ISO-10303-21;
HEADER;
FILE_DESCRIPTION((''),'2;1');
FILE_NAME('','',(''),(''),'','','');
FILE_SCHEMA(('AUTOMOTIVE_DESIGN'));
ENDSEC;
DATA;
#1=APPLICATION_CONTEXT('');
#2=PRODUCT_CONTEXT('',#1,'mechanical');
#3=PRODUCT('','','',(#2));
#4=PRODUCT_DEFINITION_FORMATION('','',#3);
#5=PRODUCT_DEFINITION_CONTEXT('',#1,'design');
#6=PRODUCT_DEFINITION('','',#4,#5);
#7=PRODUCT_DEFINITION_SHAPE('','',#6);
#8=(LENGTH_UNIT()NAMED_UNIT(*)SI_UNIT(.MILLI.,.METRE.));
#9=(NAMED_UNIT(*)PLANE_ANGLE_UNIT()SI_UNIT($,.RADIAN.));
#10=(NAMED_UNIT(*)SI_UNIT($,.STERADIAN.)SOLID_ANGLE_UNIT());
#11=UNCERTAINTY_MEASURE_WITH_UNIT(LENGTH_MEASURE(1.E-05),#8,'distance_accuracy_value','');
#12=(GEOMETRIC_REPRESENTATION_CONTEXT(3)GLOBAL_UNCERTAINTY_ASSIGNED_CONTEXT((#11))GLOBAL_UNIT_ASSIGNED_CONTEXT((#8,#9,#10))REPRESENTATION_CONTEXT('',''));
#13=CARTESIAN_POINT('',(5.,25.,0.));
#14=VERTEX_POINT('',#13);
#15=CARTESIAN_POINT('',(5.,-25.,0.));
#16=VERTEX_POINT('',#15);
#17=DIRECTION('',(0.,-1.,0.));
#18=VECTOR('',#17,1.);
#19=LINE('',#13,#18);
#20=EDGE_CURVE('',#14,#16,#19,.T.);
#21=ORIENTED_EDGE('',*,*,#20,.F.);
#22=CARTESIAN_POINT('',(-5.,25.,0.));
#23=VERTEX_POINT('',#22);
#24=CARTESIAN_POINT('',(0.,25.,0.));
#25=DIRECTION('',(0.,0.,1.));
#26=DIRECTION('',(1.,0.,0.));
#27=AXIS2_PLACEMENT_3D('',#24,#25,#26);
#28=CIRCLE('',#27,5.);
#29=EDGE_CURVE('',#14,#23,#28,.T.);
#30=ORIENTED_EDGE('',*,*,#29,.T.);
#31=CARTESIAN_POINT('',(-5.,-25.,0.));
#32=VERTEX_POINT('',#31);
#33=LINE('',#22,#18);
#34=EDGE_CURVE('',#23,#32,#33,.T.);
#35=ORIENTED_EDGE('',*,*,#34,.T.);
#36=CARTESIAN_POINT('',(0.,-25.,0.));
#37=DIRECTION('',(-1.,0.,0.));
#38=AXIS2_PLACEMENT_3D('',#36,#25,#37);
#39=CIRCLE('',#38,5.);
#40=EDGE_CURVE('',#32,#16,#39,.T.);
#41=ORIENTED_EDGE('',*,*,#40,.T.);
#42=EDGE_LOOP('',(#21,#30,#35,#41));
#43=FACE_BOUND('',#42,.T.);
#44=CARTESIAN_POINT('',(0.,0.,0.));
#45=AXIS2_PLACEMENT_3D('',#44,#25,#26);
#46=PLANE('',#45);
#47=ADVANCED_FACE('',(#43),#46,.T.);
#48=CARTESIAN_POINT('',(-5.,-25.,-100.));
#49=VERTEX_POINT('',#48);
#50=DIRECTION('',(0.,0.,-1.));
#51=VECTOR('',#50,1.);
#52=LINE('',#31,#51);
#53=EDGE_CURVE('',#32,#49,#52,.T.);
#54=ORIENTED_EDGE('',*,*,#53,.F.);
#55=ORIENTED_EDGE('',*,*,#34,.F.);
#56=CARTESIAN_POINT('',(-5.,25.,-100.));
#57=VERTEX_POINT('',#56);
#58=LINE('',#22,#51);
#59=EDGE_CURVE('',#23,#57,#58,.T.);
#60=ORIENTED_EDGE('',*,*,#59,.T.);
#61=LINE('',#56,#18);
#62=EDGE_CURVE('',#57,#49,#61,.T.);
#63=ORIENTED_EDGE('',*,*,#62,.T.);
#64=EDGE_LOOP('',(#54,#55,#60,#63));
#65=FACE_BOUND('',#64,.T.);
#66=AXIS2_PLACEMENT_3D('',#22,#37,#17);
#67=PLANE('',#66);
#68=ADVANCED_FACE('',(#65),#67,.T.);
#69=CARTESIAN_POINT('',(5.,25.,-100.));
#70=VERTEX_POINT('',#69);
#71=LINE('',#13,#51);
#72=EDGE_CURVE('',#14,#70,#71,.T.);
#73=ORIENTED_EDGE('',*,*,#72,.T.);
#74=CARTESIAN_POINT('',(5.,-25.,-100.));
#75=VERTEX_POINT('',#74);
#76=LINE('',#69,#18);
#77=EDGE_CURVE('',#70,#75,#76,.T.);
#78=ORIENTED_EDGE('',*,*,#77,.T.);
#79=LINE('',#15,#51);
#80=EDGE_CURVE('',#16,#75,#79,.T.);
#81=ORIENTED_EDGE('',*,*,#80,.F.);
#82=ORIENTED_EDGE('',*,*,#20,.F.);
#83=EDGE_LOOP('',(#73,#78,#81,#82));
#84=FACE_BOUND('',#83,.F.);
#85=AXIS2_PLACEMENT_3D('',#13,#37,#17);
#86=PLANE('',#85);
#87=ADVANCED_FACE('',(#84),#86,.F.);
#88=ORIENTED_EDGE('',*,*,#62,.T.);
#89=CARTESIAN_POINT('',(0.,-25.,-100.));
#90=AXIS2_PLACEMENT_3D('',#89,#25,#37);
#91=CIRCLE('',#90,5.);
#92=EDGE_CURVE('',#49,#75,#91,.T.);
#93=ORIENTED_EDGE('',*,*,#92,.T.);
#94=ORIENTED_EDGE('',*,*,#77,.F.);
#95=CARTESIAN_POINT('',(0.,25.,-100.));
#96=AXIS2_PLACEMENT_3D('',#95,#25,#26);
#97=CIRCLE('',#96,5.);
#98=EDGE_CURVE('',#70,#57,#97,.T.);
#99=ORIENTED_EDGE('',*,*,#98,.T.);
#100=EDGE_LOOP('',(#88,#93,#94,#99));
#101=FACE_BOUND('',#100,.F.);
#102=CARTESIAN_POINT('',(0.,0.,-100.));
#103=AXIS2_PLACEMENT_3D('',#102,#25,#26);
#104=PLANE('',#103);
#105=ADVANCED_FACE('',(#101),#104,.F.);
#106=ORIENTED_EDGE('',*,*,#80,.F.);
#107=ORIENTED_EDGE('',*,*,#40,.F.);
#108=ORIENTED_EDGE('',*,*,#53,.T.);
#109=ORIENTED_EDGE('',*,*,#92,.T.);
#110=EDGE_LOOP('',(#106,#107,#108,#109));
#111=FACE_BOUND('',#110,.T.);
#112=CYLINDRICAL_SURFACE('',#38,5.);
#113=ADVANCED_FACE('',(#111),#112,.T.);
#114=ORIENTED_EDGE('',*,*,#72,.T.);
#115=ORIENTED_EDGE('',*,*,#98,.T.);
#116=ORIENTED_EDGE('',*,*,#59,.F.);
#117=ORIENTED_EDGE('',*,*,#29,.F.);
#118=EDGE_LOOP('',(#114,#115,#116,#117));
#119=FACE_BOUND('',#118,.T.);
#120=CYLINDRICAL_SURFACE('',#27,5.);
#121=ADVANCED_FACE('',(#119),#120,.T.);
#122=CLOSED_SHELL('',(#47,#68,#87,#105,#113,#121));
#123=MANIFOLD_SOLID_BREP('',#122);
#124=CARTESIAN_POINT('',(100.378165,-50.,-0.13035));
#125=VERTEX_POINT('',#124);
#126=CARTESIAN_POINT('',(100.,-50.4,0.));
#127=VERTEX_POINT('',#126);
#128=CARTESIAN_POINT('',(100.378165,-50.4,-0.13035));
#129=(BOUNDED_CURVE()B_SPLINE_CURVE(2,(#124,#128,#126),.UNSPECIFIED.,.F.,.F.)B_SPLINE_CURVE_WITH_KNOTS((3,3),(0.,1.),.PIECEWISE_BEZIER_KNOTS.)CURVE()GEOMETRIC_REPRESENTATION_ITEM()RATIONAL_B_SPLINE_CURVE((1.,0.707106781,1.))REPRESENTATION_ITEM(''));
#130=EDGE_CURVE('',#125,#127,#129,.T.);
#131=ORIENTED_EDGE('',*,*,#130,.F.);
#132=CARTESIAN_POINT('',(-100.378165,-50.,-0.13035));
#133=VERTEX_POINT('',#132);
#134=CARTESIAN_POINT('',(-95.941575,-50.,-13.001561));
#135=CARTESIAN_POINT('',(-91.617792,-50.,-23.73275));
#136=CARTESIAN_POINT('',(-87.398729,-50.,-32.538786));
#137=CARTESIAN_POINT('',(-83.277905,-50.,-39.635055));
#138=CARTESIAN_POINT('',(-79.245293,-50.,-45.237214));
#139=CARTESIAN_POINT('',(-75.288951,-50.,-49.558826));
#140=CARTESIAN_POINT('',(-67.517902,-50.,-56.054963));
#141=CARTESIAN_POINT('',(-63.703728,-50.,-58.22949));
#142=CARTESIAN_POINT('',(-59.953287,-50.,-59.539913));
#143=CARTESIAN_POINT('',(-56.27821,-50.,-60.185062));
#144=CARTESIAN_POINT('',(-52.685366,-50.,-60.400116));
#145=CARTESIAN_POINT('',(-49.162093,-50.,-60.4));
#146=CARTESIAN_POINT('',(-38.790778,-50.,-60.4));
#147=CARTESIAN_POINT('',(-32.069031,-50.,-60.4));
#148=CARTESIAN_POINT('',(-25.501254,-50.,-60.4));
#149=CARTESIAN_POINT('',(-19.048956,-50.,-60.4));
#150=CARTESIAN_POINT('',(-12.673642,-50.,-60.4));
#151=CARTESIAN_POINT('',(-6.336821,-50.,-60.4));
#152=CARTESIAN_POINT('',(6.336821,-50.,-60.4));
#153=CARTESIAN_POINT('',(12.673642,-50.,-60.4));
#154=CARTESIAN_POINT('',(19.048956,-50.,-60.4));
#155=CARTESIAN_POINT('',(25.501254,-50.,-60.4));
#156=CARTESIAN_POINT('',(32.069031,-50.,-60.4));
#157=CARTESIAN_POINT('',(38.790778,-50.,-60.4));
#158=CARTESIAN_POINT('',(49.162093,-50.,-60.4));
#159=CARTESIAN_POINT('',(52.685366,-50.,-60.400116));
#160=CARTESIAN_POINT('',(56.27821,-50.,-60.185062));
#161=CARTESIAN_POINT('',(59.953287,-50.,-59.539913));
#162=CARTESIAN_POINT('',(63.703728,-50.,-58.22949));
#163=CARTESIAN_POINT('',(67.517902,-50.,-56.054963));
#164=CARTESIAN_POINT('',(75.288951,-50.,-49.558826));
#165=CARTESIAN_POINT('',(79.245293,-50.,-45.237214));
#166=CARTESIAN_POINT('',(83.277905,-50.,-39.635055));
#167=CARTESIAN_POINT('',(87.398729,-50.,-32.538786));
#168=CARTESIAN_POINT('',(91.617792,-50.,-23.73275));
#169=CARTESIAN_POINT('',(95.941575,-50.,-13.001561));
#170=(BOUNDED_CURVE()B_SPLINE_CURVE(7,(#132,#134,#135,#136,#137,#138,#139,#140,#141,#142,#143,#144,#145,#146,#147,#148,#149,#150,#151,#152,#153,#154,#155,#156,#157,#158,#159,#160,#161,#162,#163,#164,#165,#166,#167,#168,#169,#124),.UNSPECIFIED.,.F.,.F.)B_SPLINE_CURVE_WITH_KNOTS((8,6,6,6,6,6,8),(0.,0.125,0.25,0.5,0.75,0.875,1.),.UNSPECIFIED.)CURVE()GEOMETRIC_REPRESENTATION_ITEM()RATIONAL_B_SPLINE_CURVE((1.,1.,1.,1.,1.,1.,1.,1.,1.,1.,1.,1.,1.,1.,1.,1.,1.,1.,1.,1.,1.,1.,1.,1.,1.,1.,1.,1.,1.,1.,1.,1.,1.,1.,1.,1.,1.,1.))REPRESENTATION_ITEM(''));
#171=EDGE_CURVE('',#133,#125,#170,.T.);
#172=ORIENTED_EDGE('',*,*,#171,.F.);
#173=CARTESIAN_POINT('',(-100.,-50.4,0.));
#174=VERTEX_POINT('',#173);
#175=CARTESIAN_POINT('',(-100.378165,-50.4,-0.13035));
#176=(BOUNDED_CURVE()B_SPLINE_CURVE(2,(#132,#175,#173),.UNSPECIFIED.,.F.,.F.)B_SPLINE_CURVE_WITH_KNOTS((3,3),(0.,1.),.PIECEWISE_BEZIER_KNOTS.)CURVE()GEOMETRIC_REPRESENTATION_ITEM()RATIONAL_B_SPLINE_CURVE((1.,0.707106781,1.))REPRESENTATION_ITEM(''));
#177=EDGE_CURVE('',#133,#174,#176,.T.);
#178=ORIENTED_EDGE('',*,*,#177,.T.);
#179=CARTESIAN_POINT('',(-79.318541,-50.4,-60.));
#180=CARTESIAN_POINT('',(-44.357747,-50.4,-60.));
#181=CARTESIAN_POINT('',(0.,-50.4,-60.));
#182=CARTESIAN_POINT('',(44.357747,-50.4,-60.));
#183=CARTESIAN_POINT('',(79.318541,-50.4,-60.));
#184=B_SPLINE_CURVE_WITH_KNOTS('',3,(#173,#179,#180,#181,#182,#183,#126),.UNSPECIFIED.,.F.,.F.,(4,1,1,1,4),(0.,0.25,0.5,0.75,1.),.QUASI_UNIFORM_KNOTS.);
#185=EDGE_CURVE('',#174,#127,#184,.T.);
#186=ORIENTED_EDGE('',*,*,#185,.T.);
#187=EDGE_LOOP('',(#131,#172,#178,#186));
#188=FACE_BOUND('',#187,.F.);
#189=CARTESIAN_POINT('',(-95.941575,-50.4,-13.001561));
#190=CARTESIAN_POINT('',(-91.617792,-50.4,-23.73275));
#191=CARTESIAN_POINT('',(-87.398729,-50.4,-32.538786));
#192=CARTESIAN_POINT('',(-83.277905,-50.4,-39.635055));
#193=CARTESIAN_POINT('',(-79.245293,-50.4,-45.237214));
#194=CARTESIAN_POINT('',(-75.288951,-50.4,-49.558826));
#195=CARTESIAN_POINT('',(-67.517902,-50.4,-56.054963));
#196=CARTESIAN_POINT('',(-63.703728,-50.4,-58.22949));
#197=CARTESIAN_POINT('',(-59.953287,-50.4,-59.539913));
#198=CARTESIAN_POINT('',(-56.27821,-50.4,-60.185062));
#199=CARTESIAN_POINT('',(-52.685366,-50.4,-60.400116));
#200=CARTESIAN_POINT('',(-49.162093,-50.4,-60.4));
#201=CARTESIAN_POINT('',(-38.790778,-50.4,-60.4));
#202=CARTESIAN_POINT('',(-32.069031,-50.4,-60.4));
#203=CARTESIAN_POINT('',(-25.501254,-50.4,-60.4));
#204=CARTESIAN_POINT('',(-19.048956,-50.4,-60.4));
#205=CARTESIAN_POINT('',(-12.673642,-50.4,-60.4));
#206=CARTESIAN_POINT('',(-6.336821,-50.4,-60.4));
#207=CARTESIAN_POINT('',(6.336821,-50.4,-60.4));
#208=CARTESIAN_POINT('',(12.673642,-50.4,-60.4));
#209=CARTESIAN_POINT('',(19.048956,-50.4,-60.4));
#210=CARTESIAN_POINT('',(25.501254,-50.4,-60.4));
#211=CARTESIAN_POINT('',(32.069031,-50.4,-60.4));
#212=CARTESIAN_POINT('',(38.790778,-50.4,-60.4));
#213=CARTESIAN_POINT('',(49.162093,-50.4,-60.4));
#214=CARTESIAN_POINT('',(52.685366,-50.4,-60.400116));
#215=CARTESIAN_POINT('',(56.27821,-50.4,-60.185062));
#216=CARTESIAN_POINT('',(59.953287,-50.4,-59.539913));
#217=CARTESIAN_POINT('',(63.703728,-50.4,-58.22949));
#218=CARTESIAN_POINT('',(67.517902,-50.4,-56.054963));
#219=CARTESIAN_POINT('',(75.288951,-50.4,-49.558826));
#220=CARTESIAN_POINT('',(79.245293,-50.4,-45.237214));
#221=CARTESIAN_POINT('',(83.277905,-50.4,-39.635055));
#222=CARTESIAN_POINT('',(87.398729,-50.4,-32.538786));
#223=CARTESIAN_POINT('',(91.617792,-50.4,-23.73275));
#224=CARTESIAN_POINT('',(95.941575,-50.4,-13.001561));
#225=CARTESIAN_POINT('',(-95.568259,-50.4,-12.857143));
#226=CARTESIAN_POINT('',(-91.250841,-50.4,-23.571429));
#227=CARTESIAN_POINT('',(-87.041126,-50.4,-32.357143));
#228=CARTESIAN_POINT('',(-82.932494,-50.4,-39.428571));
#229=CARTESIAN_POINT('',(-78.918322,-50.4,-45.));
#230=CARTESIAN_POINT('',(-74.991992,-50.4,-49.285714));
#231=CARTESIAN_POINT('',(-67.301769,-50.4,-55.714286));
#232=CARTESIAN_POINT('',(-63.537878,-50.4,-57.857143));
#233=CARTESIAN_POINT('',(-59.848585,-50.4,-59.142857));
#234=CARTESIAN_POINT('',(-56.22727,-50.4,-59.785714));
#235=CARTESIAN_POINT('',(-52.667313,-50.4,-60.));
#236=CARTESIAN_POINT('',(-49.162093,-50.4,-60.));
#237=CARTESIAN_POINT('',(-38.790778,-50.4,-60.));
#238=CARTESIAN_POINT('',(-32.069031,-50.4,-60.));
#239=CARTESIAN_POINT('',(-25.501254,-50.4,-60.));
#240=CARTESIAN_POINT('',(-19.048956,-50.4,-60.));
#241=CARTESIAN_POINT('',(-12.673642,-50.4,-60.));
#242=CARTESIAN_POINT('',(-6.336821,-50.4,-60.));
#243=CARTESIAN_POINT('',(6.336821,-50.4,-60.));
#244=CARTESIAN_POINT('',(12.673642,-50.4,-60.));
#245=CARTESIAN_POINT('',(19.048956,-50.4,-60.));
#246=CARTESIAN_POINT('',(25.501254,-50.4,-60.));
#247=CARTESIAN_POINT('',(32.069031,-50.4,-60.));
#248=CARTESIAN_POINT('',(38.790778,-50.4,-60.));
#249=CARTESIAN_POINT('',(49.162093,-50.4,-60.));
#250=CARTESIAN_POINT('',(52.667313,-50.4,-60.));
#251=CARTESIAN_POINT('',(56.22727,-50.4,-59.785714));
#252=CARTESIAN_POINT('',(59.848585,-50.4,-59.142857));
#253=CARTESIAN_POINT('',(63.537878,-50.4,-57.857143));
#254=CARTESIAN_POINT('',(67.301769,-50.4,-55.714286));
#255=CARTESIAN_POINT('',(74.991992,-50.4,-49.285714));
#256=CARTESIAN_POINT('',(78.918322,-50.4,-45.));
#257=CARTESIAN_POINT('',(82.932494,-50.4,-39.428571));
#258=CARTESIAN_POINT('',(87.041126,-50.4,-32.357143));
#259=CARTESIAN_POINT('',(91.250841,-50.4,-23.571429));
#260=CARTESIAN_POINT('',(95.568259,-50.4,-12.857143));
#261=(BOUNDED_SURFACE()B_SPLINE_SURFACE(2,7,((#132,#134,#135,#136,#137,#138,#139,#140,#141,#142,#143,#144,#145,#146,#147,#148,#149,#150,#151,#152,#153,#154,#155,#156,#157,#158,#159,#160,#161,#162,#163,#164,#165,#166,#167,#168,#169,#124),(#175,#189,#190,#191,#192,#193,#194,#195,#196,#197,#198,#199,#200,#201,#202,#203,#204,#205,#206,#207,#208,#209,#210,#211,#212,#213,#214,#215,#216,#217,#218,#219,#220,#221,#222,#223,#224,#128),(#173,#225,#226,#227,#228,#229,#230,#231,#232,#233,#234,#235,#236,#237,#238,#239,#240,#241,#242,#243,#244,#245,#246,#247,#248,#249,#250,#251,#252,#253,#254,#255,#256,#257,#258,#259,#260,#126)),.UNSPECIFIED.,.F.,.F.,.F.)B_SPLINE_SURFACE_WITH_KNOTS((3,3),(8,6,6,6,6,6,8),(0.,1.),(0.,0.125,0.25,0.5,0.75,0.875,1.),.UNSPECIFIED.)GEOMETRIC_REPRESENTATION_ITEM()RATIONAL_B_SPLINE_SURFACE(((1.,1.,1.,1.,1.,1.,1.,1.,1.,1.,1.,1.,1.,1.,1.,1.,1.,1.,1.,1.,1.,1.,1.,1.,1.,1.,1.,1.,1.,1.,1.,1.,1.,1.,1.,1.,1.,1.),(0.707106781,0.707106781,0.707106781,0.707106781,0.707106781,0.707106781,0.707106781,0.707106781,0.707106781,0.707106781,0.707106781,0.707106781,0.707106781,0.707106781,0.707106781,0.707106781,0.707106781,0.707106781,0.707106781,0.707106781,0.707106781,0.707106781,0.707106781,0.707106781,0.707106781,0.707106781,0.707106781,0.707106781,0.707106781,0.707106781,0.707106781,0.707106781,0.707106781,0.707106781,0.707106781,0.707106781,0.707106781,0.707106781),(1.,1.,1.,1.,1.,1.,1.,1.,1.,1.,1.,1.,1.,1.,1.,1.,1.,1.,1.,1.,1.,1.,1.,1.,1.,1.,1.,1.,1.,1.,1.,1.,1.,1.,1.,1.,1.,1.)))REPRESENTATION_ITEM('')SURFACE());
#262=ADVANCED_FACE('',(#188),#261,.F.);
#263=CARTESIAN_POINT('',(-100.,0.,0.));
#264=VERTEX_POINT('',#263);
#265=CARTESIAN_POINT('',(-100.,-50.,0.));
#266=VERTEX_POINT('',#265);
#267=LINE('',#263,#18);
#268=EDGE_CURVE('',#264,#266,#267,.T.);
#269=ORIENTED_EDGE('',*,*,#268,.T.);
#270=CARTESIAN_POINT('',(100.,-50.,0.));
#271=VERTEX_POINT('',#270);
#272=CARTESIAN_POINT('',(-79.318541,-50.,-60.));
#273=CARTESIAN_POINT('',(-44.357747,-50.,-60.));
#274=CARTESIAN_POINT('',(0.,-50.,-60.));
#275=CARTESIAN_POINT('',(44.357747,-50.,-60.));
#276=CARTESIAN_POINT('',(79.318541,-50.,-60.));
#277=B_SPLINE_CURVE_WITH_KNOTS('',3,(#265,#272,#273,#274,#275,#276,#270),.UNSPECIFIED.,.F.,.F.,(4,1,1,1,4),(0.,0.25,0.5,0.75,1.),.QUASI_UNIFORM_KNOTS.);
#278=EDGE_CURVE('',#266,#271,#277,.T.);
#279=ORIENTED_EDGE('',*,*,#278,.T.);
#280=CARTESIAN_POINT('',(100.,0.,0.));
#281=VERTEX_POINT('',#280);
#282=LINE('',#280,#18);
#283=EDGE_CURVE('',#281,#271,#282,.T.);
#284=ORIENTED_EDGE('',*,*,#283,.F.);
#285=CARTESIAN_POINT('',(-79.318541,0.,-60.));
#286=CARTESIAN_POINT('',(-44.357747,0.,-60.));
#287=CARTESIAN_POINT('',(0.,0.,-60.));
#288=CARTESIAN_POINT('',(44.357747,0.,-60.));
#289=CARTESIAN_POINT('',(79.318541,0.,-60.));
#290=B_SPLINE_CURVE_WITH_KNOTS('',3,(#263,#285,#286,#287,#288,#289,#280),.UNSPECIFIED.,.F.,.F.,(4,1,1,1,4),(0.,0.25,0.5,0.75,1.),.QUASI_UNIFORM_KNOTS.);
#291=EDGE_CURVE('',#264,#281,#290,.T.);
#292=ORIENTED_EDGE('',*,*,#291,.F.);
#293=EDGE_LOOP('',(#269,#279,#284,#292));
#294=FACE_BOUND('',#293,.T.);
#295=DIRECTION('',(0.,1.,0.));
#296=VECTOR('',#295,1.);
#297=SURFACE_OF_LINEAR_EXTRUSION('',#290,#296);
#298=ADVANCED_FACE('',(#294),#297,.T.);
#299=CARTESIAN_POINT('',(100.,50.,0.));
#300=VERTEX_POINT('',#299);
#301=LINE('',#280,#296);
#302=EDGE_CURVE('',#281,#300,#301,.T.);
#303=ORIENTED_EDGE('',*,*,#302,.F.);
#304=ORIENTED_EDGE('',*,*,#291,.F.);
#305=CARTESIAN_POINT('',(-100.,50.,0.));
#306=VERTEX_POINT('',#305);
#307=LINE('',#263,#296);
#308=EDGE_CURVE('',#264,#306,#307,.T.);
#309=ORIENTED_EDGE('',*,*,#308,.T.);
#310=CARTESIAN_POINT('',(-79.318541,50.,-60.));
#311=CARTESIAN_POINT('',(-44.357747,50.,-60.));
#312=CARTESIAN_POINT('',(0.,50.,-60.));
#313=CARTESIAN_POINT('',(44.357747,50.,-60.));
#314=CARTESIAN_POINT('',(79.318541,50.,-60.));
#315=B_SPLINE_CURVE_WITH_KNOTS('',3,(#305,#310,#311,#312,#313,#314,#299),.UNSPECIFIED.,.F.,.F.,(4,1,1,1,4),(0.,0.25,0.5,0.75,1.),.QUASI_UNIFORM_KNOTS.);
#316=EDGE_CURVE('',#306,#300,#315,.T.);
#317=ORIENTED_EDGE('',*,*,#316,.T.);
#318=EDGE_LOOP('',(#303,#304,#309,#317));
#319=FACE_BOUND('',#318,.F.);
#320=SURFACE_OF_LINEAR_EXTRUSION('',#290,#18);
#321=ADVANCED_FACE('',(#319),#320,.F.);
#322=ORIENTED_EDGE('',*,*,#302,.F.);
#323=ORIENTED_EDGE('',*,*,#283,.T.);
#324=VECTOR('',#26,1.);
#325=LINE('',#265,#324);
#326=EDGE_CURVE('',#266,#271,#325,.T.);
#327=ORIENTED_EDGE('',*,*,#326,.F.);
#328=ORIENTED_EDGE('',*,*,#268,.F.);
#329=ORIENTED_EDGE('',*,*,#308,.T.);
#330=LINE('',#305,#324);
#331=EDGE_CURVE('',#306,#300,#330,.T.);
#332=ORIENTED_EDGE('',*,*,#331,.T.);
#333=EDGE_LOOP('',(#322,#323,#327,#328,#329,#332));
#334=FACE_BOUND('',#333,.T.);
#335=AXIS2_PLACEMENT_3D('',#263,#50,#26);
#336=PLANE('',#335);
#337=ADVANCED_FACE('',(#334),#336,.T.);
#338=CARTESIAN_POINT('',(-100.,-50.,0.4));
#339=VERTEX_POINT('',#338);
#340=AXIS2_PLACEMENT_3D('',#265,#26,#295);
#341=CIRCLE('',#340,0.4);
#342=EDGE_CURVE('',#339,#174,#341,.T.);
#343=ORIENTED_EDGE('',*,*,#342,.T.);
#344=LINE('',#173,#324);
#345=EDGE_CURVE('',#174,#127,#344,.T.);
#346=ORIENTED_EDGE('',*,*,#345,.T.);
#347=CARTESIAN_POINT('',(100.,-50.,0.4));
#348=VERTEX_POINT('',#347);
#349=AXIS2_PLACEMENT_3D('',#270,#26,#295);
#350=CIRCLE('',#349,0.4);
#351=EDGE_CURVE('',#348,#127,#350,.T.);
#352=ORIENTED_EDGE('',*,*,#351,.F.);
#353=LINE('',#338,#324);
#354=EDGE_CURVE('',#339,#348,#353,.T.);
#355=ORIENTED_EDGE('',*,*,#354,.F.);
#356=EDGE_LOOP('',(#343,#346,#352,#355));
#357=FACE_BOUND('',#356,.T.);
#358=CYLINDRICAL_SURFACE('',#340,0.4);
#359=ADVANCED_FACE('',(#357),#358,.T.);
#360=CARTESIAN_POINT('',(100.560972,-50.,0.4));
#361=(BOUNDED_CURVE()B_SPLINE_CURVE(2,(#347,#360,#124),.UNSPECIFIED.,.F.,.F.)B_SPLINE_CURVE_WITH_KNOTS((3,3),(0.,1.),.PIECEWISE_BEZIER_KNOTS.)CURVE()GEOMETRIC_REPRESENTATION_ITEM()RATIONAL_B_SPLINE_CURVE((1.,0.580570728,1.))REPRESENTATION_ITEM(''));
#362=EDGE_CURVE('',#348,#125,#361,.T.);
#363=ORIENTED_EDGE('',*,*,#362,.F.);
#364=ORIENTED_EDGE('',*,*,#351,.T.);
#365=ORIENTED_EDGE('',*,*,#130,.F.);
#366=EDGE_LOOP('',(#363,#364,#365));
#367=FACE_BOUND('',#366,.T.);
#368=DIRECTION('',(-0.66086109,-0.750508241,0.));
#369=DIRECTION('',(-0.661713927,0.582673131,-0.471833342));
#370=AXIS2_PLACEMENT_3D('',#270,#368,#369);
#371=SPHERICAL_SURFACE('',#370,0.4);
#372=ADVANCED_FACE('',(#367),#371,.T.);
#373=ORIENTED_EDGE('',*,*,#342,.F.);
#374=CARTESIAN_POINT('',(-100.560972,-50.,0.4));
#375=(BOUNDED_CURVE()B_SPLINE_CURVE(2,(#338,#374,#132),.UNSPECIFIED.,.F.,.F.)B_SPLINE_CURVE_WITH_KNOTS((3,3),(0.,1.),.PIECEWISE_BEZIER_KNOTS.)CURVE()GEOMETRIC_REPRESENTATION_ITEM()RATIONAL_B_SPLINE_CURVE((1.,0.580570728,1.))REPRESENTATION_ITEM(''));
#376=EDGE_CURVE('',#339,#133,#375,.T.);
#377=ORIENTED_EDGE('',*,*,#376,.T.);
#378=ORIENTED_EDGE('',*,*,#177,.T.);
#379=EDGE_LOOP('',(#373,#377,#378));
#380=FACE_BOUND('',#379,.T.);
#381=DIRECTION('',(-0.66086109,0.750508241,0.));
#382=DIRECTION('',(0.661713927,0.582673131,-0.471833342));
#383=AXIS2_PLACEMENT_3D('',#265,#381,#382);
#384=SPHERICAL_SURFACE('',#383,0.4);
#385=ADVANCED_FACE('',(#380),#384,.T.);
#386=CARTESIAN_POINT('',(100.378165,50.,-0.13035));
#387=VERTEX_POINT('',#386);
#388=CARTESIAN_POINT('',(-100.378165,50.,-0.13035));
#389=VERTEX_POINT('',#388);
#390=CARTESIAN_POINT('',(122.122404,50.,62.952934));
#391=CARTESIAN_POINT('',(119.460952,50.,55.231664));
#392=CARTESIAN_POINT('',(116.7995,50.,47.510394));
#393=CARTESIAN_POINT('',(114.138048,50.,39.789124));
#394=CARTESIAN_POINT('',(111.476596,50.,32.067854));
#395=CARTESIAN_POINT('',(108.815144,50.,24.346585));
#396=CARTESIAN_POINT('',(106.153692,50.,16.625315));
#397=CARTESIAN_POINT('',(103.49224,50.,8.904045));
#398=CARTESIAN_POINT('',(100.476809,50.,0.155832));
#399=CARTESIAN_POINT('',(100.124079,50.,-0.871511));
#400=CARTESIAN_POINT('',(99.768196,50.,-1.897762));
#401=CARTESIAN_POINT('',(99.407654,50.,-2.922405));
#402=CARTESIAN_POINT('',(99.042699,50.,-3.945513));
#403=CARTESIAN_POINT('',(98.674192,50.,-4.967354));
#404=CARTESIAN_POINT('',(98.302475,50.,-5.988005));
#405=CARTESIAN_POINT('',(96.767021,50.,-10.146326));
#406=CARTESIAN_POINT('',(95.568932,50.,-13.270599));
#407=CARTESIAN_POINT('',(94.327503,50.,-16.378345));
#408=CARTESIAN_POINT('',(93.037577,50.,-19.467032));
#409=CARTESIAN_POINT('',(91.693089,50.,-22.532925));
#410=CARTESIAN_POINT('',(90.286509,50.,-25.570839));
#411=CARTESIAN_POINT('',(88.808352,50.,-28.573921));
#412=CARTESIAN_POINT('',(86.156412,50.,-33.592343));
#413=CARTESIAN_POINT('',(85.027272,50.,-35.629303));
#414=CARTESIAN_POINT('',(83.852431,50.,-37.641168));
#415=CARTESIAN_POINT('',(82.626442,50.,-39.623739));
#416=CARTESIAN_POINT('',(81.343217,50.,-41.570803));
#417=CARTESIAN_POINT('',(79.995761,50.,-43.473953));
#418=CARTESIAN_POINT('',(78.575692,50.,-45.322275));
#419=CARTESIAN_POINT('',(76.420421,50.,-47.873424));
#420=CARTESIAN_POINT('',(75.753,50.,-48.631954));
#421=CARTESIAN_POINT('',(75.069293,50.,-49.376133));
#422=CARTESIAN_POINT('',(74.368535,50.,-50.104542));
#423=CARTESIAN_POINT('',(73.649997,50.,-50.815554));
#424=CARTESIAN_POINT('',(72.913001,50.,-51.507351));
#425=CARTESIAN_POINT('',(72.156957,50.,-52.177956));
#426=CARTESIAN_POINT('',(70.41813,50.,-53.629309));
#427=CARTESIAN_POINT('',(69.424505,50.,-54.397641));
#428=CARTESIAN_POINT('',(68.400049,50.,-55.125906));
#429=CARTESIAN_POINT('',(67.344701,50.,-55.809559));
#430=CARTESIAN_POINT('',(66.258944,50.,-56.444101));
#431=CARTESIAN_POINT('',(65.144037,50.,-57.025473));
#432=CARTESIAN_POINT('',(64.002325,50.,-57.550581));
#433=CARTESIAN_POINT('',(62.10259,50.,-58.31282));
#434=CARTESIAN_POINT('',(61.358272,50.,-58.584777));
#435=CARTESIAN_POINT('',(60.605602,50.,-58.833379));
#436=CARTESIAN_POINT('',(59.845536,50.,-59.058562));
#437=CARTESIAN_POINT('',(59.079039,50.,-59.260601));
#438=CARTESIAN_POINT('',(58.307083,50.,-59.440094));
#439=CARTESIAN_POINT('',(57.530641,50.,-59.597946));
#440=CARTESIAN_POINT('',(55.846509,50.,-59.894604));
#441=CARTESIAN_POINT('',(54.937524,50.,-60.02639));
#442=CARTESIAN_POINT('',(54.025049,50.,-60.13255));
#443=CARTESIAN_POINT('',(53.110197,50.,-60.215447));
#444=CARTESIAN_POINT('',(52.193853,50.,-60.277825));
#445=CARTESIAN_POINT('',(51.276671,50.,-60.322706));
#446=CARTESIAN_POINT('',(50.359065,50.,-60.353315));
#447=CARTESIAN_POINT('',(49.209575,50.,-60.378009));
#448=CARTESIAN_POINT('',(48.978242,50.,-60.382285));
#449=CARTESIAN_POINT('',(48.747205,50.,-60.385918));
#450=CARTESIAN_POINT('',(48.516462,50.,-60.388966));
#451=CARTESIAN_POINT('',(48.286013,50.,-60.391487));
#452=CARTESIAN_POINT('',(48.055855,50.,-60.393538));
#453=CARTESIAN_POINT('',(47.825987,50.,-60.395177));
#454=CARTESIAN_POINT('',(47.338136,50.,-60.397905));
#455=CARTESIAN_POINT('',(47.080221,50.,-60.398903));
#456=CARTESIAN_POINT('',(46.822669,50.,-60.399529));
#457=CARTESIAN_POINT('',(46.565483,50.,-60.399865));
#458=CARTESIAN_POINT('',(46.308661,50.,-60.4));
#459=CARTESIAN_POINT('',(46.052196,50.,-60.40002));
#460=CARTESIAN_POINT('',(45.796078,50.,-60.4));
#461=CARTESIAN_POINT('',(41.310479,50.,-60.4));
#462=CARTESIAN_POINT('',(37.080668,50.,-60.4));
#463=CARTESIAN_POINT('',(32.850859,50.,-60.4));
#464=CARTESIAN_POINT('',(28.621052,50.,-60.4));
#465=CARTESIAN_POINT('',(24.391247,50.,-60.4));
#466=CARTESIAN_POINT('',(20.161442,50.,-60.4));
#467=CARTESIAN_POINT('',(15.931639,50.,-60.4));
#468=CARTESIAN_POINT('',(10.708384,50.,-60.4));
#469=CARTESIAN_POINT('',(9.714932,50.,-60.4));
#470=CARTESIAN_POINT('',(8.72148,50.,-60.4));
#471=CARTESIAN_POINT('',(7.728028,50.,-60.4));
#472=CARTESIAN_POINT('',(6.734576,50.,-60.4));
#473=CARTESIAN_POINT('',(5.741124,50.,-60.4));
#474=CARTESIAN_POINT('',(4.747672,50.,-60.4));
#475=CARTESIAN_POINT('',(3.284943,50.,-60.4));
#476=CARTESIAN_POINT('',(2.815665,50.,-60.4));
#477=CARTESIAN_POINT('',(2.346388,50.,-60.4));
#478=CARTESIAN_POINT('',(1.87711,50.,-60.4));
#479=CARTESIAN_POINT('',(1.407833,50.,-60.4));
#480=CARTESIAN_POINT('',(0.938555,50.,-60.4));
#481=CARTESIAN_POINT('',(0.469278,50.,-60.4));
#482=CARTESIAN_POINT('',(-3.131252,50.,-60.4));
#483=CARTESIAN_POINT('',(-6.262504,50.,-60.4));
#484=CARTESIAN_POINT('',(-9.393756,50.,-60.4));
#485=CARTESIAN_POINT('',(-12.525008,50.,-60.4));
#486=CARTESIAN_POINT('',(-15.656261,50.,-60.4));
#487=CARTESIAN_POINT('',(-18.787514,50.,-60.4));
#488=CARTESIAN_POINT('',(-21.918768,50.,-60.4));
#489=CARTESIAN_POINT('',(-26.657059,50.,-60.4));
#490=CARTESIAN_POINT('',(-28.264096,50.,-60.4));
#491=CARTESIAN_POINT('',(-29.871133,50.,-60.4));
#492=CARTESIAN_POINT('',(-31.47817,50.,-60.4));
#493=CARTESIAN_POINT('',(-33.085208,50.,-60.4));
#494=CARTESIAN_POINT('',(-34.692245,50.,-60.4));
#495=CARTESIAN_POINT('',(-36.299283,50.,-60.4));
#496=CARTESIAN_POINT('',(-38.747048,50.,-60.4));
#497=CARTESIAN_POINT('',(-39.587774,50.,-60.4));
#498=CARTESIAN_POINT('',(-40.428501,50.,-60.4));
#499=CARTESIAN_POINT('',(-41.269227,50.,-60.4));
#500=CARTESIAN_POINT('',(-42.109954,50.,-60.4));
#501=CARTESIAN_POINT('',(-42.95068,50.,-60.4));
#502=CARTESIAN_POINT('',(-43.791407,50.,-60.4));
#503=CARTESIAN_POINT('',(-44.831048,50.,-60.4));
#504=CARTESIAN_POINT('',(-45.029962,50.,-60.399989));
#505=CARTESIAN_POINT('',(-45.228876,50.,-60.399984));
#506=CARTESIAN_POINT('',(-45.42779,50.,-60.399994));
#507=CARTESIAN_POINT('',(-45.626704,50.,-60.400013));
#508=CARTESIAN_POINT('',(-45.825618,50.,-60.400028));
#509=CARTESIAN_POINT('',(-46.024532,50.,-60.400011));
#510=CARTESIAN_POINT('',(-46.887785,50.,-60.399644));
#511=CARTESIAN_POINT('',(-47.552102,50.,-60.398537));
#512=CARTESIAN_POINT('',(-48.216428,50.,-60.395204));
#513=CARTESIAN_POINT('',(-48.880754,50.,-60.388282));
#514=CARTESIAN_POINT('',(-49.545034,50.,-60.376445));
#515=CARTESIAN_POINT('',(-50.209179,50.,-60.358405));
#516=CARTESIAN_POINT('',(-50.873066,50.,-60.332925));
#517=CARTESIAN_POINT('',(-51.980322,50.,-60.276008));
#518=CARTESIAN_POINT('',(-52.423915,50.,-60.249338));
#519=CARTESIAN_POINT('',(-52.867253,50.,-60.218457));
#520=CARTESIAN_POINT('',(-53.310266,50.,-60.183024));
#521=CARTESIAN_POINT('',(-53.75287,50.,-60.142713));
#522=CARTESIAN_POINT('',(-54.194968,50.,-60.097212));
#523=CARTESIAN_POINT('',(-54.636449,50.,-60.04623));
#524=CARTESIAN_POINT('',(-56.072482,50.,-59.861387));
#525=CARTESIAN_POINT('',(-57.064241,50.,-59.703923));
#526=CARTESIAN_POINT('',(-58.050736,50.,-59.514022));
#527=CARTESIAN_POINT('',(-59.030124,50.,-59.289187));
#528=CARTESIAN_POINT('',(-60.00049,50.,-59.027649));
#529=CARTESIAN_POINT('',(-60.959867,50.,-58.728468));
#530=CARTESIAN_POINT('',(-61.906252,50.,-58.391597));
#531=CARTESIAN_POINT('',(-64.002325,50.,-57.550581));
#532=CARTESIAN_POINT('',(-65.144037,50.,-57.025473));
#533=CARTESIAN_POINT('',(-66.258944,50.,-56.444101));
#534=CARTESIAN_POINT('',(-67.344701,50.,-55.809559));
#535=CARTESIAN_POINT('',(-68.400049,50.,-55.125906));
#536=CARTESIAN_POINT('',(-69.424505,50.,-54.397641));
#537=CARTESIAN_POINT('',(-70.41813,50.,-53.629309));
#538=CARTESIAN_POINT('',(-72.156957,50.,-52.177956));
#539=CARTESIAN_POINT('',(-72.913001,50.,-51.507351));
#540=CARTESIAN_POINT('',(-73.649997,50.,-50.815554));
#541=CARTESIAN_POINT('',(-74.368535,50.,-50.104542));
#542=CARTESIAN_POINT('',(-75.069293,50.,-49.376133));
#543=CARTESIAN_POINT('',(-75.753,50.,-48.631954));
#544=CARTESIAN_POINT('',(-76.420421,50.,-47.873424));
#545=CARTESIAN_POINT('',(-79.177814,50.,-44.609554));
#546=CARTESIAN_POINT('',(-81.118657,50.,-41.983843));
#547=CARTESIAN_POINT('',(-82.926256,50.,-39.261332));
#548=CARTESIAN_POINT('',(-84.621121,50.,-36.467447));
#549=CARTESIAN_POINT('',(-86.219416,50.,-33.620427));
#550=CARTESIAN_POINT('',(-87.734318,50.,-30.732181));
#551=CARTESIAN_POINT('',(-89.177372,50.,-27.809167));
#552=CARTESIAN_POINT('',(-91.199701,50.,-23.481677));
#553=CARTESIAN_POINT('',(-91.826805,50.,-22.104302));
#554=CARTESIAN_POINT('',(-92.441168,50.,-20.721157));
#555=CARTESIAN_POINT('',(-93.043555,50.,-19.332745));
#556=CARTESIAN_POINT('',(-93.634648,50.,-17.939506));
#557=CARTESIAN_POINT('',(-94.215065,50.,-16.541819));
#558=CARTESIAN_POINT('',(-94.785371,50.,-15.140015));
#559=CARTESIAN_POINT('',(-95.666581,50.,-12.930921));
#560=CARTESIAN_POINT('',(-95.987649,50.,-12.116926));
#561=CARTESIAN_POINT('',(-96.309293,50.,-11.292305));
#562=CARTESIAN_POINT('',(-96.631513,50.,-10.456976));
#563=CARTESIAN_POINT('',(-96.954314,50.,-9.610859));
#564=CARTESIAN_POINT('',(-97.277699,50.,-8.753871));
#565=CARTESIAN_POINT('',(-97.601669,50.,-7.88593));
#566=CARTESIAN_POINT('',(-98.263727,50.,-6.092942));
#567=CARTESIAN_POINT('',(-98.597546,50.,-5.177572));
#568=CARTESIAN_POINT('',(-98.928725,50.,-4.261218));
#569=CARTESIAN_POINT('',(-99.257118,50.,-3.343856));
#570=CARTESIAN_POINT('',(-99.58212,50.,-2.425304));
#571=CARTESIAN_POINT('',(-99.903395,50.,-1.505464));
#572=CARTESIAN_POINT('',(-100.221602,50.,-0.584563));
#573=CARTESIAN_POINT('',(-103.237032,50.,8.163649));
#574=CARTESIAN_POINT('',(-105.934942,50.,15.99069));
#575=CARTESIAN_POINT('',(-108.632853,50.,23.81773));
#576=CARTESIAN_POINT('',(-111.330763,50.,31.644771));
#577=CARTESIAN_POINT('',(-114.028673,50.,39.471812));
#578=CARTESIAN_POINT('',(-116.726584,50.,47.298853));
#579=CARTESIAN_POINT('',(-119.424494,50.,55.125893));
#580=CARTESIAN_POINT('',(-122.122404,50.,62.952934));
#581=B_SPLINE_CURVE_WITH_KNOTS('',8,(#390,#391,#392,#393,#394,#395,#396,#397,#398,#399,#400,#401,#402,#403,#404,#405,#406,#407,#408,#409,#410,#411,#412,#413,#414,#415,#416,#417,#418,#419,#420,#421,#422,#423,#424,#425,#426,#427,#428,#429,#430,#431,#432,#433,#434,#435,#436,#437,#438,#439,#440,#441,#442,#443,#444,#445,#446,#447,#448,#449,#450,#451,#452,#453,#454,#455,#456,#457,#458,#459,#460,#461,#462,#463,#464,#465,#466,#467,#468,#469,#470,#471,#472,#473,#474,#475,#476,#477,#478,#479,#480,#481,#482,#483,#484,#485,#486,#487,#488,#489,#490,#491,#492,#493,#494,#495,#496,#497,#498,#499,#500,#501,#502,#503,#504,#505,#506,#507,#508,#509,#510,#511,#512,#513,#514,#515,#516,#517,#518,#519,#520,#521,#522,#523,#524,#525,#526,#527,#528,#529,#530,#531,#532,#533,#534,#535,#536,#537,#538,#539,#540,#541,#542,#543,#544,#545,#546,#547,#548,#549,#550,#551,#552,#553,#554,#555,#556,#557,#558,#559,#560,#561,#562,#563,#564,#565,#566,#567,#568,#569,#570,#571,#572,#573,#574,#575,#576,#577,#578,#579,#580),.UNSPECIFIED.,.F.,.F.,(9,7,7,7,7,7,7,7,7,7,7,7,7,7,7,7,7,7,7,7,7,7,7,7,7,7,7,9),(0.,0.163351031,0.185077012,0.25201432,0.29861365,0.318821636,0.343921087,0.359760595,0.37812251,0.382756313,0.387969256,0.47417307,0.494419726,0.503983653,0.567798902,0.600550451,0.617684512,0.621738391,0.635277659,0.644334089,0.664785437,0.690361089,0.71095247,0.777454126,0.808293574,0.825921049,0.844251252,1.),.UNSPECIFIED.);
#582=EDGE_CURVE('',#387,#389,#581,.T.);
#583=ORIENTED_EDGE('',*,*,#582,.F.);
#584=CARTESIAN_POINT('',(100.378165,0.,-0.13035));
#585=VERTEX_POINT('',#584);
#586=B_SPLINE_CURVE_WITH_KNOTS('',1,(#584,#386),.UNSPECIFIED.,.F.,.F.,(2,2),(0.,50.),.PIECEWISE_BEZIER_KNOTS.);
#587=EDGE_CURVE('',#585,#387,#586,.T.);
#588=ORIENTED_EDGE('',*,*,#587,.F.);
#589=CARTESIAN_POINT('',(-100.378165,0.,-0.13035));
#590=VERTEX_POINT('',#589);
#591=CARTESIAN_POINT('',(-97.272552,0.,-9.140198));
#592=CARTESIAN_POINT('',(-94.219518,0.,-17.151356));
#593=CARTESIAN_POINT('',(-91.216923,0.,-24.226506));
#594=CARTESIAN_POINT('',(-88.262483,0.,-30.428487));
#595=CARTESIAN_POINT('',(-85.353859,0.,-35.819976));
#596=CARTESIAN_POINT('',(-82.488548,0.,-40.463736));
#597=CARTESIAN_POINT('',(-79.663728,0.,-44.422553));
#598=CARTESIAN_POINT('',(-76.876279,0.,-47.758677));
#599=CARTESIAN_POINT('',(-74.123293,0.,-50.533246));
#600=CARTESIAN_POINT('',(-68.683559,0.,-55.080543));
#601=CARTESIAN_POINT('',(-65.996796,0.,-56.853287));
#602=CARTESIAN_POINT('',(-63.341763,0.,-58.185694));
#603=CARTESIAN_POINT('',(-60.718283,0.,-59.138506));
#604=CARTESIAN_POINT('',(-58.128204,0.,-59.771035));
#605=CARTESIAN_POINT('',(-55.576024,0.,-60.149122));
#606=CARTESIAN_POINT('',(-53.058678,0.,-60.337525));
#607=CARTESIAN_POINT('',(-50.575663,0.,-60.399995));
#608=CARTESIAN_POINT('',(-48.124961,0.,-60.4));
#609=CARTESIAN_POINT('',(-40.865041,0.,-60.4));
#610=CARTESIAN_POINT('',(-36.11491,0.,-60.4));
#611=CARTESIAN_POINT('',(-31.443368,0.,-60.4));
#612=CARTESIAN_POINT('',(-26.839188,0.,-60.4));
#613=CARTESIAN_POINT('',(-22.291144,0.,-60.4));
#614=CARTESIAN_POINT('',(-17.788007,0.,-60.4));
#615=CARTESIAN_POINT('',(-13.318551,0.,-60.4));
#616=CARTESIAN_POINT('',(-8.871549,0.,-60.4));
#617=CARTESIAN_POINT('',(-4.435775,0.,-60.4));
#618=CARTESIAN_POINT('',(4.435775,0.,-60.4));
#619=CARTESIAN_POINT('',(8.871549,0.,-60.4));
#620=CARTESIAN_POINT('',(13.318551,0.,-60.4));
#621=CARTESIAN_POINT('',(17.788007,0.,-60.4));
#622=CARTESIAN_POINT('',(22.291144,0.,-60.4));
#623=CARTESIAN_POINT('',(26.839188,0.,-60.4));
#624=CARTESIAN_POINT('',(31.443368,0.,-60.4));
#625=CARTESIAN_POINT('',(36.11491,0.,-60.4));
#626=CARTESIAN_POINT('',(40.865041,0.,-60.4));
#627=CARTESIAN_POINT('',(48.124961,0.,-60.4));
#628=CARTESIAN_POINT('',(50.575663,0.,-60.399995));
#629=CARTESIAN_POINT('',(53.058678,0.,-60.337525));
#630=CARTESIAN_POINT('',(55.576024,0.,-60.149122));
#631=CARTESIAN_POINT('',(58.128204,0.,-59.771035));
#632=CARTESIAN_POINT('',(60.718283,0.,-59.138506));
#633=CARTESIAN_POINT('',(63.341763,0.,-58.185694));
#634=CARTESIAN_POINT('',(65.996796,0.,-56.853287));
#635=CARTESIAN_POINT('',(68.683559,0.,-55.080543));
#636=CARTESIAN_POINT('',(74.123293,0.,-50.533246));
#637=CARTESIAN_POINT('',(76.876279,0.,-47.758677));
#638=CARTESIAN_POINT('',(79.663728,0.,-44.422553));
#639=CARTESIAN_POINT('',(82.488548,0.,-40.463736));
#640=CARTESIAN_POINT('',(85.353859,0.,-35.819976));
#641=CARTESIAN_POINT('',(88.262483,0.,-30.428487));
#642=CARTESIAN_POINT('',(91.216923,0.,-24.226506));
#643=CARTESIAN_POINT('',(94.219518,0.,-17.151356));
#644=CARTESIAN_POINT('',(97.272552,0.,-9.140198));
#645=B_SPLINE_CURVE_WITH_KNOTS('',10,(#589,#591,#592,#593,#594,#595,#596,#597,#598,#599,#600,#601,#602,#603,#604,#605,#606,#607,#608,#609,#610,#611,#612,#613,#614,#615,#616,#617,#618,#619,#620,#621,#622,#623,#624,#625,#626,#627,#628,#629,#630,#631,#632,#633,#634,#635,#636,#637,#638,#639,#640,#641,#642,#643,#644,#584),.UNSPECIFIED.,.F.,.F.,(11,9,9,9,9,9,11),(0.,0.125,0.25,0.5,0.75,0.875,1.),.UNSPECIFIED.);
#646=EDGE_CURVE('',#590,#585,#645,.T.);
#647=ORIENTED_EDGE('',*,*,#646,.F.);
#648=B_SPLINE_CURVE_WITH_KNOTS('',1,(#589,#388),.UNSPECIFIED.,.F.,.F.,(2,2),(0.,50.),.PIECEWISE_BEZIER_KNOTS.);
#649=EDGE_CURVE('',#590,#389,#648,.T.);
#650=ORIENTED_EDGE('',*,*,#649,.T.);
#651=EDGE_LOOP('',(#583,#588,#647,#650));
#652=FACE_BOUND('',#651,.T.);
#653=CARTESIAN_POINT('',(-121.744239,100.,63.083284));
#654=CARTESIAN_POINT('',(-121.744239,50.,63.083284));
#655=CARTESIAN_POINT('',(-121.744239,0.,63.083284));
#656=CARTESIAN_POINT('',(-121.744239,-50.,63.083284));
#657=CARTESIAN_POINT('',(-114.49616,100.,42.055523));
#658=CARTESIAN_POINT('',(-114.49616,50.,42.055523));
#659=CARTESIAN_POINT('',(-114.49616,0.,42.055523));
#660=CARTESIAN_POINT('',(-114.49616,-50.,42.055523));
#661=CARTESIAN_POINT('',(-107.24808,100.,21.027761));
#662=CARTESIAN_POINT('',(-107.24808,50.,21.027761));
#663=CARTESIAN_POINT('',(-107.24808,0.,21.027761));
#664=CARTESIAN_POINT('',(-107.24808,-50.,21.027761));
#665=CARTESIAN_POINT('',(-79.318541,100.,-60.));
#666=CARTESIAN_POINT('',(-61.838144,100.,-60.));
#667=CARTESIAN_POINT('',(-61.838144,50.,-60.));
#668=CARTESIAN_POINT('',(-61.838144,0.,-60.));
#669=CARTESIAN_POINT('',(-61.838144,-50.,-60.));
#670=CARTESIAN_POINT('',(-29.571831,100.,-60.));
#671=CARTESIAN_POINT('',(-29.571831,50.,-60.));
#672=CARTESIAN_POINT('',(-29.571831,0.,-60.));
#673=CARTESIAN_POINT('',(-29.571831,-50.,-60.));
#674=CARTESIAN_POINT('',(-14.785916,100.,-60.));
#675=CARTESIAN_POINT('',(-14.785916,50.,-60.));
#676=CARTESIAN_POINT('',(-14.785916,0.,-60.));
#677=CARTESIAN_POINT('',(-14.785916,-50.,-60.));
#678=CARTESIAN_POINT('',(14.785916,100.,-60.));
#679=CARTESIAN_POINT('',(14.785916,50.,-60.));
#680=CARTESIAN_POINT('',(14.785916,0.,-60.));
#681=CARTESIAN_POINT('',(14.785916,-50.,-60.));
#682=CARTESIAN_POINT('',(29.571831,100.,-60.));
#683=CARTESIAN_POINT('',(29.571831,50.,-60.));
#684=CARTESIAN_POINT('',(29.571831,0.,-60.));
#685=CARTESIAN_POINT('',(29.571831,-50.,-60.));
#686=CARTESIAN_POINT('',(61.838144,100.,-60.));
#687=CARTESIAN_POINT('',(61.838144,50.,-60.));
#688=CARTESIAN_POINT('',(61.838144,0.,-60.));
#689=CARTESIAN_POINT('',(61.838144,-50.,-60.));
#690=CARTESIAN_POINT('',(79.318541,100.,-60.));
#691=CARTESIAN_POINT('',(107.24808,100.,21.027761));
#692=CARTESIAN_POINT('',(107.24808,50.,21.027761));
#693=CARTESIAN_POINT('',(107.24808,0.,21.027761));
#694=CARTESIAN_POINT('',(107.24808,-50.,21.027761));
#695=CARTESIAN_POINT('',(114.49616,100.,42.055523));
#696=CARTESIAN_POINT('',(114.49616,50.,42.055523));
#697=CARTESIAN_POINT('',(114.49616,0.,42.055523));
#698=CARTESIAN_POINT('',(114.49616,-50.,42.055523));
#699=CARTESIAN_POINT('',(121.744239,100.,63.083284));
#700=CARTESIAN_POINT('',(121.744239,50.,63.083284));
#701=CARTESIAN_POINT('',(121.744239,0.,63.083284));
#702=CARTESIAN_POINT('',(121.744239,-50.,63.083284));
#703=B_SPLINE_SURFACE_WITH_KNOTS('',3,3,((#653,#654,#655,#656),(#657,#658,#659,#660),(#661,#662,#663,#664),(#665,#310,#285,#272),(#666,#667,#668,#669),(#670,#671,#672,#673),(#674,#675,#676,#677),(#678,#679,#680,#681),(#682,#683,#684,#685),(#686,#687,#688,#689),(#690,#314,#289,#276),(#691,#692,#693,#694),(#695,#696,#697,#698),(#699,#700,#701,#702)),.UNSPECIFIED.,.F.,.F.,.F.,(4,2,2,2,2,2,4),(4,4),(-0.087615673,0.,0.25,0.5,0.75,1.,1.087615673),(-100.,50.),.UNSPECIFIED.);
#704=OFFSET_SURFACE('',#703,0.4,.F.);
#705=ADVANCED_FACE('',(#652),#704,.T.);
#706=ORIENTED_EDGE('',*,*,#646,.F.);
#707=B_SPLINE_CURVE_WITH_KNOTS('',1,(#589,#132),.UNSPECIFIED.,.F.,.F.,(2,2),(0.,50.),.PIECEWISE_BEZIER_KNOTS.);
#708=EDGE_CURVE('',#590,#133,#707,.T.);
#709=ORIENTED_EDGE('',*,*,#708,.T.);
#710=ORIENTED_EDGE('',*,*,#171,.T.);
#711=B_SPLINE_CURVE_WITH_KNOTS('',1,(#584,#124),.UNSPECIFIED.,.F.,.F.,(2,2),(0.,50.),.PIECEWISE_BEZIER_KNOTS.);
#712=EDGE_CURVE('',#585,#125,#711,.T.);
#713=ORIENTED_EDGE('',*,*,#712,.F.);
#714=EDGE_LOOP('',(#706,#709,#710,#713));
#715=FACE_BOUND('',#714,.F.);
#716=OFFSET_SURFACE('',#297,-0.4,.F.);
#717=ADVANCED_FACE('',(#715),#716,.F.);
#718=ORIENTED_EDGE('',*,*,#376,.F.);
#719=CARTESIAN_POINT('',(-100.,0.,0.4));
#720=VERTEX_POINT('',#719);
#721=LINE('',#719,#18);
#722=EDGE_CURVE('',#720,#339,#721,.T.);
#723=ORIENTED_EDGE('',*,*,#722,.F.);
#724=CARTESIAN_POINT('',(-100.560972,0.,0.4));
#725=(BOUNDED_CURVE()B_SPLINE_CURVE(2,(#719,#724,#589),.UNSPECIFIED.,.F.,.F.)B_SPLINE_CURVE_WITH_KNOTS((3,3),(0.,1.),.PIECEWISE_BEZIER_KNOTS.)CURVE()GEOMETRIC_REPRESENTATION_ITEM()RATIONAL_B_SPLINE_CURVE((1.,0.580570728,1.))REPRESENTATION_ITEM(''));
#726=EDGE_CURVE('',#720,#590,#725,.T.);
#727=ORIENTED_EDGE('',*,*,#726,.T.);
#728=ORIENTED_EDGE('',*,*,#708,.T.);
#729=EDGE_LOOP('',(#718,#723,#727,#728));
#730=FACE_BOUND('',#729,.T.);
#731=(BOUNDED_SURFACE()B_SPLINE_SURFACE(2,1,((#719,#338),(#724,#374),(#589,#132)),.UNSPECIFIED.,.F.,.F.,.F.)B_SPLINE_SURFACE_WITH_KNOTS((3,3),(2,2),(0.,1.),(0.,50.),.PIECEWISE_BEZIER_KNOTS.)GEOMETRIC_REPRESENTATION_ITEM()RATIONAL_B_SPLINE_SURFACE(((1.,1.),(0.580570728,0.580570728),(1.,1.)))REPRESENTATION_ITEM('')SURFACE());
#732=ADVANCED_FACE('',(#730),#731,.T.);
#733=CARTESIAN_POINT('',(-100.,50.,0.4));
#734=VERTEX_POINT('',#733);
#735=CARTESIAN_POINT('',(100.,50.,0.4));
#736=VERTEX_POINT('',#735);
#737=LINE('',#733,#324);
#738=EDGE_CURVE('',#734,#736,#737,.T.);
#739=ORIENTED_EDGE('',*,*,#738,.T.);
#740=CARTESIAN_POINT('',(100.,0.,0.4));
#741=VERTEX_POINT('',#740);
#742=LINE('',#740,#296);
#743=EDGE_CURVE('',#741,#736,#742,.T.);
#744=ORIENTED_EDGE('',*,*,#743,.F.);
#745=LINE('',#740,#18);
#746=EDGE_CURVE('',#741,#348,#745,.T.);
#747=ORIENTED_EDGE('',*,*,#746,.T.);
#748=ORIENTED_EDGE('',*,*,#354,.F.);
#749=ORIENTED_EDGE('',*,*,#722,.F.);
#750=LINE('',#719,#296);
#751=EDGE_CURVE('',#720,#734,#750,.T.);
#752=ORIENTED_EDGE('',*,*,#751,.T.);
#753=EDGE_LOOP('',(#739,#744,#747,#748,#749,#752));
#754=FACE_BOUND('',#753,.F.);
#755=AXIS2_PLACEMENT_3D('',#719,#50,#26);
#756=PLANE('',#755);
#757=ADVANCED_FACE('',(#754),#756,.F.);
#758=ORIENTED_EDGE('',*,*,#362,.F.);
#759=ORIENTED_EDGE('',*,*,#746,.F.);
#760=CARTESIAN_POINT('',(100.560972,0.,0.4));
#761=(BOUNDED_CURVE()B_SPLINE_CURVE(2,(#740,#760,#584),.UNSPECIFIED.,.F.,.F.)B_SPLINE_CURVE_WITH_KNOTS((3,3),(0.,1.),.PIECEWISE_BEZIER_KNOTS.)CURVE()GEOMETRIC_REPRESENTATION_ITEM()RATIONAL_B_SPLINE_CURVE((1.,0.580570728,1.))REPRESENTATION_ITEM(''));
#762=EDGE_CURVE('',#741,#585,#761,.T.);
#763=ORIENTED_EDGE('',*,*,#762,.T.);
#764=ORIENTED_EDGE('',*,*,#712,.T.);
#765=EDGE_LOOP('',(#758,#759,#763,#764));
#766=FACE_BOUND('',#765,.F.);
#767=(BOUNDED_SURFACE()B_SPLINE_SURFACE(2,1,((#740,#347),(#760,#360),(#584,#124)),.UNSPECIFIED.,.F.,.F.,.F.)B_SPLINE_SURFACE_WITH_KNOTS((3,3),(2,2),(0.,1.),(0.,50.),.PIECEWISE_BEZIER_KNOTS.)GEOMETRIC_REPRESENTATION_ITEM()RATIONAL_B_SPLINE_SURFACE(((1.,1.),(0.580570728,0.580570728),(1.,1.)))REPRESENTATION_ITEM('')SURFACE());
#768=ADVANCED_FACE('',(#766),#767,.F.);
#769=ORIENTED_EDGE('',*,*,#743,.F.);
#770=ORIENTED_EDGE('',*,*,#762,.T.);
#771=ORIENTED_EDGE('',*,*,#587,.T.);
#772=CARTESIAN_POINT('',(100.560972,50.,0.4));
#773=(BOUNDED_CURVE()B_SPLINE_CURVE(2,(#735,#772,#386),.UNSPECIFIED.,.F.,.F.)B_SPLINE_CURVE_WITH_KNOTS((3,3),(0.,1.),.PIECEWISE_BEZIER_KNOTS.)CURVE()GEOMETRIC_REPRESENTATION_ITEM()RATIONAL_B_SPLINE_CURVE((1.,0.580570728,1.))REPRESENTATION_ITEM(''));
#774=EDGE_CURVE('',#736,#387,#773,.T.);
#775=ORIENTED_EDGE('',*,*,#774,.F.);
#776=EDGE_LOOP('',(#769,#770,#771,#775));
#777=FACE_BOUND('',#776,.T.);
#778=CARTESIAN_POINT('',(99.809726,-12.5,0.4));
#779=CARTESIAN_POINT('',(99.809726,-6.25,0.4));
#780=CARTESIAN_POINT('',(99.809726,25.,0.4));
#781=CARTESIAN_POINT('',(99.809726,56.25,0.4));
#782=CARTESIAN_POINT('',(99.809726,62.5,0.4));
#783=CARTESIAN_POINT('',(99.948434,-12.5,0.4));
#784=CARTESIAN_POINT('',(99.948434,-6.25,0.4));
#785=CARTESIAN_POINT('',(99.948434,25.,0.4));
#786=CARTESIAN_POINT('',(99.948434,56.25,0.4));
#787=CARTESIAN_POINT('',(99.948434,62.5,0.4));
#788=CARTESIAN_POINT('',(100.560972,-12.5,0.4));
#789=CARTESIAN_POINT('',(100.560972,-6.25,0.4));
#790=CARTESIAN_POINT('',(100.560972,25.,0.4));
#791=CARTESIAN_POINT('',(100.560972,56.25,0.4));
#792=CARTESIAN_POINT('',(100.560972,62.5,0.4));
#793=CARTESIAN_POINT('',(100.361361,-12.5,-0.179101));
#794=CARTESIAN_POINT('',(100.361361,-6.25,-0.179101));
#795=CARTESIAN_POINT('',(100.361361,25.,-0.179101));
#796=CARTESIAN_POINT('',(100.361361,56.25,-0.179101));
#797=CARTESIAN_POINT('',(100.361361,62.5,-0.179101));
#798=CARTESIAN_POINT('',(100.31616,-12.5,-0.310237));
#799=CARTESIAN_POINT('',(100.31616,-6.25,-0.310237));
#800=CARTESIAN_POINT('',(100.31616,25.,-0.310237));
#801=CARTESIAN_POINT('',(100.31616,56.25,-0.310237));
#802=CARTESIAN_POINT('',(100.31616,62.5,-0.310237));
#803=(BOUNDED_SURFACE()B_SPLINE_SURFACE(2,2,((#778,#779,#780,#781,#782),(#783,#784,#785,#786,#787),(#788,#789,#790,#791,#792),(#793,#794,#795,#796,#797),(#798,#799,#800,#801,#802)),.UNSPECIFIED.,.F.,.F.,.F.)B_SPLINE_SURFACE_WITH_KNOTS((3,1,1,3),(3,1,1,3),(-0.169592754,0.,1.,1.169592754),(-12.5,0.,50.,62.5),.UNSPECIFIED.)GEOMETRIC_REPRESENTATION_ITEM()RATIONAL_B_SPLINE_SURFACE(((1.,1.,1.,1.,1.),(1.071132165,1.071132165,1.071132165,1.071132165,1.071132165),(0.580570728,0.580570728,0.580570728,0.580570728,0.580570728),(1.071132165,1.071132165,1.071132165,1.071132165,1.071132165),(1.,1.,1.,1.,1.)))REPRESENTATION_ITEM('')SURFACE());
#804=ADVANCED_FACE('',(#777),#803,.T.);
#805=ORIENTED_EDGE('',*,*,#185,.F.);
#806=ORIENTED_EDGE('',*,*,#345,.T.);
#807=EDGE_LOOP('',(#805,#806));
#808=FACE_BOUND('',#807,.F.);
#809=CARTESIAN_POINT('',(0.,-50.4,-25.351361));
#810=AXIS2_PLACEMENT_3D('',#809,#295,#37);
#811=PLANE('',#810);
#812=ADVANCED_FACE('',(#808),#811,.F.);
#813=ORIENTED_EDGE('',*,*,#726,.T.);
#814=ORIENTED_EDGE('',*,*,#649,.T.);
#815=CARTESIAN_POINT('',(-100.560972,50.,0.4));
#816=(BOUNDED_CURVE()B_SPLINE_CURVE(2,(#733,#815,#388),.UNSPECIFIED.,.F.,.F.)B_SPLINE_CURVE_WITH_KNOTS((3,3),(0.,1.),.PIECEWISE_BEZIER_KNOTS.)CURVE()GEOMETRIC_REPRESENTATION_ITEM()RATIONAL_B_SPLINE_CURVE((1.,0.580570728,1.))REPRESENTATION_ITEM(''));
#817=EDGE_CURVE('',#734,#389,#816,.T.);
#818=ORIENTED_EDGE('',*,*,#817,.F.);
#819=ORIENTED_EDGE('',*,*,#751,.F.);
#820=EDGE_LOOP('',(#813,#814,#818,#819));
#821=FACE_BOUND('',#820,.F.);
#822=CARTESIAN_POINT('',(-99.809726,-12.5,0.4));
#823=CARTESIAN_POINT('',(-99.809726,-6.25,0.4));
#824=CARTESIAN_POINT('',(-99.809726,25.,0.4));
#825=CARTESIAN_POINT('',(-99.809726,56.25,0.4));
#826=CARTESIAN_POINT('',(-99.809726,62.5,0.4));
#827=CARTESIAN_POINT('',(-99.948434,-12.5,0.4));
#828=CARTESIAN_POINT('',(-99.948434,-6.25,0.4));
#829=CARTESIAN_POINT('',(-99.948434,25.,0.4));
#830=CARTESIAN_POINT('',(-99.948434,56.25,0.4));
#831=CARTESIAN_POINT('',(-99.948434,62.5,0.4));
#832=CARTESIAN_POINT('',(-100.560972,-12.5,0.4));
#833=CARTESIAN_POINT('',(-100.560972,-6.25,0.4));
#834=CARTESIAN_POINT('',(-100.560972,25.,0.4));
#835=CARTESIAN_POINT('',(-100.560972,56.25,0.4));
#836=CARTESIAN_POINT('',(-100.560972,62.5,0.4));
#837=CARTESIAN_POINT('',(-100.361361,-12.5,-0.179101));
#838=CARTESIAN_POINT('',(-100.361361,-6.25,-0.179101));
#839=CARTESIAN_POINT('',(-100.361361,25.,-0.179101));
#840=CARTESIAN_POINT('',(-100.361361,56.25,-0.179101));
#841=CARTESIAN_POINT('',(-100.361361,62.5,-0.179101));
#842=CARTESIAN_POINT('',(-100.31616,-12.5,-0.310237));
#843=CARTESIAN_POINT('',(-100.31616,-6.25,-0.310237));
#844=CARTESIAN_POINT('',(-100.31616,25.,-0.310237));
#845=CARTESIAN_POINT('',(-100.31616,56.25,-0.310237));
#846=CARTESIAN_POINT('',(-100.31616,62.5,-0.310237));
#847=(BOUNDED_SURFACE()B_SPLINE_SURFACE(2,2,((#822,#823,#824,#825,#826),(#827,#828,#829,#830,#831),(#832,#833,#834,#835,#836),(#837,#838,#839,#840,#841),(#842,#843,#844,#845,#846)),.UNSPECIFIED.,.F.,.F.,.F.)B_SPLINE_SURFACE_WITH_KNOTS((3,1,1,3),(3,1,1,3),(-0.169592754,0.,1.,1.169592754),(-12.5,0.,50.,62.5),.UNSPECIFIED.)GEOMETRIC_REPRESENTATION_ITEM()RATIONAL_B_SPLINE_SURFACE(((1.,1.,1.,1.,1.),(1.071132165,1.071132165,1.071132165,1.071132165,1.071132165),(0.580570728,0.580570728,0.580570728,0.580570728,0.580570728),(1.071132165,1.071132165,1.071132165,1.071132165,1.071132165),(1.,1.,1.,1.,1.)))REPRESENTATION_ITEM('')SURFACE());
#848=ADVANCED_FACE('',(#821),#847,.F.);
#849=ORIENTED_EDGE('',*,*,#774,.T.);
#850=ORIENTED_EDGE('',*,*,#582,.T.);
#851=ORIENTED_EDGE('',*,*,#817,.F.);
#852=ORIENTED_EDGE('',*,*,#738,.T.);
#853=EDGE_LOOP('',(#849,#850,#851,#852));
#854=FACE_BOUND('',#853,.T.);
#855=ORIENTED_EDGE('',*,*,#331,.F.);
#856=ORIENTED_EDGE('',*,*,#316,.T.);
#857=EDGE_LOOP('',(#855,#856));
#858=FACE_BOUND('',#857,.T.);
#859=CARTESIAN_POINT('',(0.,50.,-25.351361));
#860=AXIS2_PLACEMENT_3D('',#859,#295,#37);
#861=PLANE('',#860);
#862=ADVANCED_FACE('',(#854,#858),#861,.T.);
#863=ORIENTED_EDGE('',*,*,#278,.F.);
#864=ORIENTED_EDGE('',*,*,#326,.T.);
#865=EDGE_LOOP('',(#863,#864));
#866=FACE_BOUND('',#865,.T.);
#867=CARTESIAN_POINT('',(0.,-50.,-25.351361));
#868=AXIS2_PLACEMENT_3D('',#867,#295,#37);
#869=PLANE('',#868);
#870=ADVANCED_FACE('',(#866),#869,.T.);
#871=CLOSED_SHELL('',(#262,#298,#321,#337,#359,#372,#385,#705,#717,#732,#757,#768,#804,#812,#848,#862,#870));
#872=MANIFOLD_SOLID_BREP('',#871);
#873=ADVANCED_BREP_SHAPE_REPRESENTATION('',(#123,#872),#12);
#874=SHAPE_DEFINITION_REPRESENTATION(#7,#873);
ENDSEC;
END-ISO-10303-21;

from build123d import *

# Parameters (mm, degrees)
PAD_DEPTH    = 50
THICKNESS_T  = 0.4
PAD001_DEPTH = 100


with BuildPart() as hull:
    # Sketch003 → Pad (new body, symmetric)
    with BuildSketch(Plane.XZ):
        with BuildLine():
            Line((-100, 0), (100, 0))
            add(Edge.make_bspline(
                [(-100, 0), (-79.318541, -60), (-44.357747, -60), (0, -60), (44.357747, -60), (79.318541, -60), (100, 0)],
                knots=[0, 0, 0, 0, 0.25, 0.5, 0.75, 1, 1, 1, 1], degree=3))
        make_face()
    extrude(amount=PAD_DEPTH, both=True)

    # Thickness
    thickness_openings = [hull.faces().sort_by_distance(p)[0] for p in [
        (0, 50, -27.855645),
    ]]
    offset(amount=THICKNESS_T, openings=thickness_openings)


with BuildPart() as keel_slot:
    # Sketch002 → Pad001 (new body)
    with BuildSketch(Plane.XY):
        with BuildLine():
            ThreePointArc((5, 25), (0, 30), (-5, 25))
            Line((-5, 25), (-5, -25))
            ThreePointArc((-5, -25), (0, -30), (5, -25))
            Line((5, 25), (5, -25))
        make_face()
    extrude(amount=-PAD001_DEPTH)


solid = Compound([hull.part, keel_slot.part])
